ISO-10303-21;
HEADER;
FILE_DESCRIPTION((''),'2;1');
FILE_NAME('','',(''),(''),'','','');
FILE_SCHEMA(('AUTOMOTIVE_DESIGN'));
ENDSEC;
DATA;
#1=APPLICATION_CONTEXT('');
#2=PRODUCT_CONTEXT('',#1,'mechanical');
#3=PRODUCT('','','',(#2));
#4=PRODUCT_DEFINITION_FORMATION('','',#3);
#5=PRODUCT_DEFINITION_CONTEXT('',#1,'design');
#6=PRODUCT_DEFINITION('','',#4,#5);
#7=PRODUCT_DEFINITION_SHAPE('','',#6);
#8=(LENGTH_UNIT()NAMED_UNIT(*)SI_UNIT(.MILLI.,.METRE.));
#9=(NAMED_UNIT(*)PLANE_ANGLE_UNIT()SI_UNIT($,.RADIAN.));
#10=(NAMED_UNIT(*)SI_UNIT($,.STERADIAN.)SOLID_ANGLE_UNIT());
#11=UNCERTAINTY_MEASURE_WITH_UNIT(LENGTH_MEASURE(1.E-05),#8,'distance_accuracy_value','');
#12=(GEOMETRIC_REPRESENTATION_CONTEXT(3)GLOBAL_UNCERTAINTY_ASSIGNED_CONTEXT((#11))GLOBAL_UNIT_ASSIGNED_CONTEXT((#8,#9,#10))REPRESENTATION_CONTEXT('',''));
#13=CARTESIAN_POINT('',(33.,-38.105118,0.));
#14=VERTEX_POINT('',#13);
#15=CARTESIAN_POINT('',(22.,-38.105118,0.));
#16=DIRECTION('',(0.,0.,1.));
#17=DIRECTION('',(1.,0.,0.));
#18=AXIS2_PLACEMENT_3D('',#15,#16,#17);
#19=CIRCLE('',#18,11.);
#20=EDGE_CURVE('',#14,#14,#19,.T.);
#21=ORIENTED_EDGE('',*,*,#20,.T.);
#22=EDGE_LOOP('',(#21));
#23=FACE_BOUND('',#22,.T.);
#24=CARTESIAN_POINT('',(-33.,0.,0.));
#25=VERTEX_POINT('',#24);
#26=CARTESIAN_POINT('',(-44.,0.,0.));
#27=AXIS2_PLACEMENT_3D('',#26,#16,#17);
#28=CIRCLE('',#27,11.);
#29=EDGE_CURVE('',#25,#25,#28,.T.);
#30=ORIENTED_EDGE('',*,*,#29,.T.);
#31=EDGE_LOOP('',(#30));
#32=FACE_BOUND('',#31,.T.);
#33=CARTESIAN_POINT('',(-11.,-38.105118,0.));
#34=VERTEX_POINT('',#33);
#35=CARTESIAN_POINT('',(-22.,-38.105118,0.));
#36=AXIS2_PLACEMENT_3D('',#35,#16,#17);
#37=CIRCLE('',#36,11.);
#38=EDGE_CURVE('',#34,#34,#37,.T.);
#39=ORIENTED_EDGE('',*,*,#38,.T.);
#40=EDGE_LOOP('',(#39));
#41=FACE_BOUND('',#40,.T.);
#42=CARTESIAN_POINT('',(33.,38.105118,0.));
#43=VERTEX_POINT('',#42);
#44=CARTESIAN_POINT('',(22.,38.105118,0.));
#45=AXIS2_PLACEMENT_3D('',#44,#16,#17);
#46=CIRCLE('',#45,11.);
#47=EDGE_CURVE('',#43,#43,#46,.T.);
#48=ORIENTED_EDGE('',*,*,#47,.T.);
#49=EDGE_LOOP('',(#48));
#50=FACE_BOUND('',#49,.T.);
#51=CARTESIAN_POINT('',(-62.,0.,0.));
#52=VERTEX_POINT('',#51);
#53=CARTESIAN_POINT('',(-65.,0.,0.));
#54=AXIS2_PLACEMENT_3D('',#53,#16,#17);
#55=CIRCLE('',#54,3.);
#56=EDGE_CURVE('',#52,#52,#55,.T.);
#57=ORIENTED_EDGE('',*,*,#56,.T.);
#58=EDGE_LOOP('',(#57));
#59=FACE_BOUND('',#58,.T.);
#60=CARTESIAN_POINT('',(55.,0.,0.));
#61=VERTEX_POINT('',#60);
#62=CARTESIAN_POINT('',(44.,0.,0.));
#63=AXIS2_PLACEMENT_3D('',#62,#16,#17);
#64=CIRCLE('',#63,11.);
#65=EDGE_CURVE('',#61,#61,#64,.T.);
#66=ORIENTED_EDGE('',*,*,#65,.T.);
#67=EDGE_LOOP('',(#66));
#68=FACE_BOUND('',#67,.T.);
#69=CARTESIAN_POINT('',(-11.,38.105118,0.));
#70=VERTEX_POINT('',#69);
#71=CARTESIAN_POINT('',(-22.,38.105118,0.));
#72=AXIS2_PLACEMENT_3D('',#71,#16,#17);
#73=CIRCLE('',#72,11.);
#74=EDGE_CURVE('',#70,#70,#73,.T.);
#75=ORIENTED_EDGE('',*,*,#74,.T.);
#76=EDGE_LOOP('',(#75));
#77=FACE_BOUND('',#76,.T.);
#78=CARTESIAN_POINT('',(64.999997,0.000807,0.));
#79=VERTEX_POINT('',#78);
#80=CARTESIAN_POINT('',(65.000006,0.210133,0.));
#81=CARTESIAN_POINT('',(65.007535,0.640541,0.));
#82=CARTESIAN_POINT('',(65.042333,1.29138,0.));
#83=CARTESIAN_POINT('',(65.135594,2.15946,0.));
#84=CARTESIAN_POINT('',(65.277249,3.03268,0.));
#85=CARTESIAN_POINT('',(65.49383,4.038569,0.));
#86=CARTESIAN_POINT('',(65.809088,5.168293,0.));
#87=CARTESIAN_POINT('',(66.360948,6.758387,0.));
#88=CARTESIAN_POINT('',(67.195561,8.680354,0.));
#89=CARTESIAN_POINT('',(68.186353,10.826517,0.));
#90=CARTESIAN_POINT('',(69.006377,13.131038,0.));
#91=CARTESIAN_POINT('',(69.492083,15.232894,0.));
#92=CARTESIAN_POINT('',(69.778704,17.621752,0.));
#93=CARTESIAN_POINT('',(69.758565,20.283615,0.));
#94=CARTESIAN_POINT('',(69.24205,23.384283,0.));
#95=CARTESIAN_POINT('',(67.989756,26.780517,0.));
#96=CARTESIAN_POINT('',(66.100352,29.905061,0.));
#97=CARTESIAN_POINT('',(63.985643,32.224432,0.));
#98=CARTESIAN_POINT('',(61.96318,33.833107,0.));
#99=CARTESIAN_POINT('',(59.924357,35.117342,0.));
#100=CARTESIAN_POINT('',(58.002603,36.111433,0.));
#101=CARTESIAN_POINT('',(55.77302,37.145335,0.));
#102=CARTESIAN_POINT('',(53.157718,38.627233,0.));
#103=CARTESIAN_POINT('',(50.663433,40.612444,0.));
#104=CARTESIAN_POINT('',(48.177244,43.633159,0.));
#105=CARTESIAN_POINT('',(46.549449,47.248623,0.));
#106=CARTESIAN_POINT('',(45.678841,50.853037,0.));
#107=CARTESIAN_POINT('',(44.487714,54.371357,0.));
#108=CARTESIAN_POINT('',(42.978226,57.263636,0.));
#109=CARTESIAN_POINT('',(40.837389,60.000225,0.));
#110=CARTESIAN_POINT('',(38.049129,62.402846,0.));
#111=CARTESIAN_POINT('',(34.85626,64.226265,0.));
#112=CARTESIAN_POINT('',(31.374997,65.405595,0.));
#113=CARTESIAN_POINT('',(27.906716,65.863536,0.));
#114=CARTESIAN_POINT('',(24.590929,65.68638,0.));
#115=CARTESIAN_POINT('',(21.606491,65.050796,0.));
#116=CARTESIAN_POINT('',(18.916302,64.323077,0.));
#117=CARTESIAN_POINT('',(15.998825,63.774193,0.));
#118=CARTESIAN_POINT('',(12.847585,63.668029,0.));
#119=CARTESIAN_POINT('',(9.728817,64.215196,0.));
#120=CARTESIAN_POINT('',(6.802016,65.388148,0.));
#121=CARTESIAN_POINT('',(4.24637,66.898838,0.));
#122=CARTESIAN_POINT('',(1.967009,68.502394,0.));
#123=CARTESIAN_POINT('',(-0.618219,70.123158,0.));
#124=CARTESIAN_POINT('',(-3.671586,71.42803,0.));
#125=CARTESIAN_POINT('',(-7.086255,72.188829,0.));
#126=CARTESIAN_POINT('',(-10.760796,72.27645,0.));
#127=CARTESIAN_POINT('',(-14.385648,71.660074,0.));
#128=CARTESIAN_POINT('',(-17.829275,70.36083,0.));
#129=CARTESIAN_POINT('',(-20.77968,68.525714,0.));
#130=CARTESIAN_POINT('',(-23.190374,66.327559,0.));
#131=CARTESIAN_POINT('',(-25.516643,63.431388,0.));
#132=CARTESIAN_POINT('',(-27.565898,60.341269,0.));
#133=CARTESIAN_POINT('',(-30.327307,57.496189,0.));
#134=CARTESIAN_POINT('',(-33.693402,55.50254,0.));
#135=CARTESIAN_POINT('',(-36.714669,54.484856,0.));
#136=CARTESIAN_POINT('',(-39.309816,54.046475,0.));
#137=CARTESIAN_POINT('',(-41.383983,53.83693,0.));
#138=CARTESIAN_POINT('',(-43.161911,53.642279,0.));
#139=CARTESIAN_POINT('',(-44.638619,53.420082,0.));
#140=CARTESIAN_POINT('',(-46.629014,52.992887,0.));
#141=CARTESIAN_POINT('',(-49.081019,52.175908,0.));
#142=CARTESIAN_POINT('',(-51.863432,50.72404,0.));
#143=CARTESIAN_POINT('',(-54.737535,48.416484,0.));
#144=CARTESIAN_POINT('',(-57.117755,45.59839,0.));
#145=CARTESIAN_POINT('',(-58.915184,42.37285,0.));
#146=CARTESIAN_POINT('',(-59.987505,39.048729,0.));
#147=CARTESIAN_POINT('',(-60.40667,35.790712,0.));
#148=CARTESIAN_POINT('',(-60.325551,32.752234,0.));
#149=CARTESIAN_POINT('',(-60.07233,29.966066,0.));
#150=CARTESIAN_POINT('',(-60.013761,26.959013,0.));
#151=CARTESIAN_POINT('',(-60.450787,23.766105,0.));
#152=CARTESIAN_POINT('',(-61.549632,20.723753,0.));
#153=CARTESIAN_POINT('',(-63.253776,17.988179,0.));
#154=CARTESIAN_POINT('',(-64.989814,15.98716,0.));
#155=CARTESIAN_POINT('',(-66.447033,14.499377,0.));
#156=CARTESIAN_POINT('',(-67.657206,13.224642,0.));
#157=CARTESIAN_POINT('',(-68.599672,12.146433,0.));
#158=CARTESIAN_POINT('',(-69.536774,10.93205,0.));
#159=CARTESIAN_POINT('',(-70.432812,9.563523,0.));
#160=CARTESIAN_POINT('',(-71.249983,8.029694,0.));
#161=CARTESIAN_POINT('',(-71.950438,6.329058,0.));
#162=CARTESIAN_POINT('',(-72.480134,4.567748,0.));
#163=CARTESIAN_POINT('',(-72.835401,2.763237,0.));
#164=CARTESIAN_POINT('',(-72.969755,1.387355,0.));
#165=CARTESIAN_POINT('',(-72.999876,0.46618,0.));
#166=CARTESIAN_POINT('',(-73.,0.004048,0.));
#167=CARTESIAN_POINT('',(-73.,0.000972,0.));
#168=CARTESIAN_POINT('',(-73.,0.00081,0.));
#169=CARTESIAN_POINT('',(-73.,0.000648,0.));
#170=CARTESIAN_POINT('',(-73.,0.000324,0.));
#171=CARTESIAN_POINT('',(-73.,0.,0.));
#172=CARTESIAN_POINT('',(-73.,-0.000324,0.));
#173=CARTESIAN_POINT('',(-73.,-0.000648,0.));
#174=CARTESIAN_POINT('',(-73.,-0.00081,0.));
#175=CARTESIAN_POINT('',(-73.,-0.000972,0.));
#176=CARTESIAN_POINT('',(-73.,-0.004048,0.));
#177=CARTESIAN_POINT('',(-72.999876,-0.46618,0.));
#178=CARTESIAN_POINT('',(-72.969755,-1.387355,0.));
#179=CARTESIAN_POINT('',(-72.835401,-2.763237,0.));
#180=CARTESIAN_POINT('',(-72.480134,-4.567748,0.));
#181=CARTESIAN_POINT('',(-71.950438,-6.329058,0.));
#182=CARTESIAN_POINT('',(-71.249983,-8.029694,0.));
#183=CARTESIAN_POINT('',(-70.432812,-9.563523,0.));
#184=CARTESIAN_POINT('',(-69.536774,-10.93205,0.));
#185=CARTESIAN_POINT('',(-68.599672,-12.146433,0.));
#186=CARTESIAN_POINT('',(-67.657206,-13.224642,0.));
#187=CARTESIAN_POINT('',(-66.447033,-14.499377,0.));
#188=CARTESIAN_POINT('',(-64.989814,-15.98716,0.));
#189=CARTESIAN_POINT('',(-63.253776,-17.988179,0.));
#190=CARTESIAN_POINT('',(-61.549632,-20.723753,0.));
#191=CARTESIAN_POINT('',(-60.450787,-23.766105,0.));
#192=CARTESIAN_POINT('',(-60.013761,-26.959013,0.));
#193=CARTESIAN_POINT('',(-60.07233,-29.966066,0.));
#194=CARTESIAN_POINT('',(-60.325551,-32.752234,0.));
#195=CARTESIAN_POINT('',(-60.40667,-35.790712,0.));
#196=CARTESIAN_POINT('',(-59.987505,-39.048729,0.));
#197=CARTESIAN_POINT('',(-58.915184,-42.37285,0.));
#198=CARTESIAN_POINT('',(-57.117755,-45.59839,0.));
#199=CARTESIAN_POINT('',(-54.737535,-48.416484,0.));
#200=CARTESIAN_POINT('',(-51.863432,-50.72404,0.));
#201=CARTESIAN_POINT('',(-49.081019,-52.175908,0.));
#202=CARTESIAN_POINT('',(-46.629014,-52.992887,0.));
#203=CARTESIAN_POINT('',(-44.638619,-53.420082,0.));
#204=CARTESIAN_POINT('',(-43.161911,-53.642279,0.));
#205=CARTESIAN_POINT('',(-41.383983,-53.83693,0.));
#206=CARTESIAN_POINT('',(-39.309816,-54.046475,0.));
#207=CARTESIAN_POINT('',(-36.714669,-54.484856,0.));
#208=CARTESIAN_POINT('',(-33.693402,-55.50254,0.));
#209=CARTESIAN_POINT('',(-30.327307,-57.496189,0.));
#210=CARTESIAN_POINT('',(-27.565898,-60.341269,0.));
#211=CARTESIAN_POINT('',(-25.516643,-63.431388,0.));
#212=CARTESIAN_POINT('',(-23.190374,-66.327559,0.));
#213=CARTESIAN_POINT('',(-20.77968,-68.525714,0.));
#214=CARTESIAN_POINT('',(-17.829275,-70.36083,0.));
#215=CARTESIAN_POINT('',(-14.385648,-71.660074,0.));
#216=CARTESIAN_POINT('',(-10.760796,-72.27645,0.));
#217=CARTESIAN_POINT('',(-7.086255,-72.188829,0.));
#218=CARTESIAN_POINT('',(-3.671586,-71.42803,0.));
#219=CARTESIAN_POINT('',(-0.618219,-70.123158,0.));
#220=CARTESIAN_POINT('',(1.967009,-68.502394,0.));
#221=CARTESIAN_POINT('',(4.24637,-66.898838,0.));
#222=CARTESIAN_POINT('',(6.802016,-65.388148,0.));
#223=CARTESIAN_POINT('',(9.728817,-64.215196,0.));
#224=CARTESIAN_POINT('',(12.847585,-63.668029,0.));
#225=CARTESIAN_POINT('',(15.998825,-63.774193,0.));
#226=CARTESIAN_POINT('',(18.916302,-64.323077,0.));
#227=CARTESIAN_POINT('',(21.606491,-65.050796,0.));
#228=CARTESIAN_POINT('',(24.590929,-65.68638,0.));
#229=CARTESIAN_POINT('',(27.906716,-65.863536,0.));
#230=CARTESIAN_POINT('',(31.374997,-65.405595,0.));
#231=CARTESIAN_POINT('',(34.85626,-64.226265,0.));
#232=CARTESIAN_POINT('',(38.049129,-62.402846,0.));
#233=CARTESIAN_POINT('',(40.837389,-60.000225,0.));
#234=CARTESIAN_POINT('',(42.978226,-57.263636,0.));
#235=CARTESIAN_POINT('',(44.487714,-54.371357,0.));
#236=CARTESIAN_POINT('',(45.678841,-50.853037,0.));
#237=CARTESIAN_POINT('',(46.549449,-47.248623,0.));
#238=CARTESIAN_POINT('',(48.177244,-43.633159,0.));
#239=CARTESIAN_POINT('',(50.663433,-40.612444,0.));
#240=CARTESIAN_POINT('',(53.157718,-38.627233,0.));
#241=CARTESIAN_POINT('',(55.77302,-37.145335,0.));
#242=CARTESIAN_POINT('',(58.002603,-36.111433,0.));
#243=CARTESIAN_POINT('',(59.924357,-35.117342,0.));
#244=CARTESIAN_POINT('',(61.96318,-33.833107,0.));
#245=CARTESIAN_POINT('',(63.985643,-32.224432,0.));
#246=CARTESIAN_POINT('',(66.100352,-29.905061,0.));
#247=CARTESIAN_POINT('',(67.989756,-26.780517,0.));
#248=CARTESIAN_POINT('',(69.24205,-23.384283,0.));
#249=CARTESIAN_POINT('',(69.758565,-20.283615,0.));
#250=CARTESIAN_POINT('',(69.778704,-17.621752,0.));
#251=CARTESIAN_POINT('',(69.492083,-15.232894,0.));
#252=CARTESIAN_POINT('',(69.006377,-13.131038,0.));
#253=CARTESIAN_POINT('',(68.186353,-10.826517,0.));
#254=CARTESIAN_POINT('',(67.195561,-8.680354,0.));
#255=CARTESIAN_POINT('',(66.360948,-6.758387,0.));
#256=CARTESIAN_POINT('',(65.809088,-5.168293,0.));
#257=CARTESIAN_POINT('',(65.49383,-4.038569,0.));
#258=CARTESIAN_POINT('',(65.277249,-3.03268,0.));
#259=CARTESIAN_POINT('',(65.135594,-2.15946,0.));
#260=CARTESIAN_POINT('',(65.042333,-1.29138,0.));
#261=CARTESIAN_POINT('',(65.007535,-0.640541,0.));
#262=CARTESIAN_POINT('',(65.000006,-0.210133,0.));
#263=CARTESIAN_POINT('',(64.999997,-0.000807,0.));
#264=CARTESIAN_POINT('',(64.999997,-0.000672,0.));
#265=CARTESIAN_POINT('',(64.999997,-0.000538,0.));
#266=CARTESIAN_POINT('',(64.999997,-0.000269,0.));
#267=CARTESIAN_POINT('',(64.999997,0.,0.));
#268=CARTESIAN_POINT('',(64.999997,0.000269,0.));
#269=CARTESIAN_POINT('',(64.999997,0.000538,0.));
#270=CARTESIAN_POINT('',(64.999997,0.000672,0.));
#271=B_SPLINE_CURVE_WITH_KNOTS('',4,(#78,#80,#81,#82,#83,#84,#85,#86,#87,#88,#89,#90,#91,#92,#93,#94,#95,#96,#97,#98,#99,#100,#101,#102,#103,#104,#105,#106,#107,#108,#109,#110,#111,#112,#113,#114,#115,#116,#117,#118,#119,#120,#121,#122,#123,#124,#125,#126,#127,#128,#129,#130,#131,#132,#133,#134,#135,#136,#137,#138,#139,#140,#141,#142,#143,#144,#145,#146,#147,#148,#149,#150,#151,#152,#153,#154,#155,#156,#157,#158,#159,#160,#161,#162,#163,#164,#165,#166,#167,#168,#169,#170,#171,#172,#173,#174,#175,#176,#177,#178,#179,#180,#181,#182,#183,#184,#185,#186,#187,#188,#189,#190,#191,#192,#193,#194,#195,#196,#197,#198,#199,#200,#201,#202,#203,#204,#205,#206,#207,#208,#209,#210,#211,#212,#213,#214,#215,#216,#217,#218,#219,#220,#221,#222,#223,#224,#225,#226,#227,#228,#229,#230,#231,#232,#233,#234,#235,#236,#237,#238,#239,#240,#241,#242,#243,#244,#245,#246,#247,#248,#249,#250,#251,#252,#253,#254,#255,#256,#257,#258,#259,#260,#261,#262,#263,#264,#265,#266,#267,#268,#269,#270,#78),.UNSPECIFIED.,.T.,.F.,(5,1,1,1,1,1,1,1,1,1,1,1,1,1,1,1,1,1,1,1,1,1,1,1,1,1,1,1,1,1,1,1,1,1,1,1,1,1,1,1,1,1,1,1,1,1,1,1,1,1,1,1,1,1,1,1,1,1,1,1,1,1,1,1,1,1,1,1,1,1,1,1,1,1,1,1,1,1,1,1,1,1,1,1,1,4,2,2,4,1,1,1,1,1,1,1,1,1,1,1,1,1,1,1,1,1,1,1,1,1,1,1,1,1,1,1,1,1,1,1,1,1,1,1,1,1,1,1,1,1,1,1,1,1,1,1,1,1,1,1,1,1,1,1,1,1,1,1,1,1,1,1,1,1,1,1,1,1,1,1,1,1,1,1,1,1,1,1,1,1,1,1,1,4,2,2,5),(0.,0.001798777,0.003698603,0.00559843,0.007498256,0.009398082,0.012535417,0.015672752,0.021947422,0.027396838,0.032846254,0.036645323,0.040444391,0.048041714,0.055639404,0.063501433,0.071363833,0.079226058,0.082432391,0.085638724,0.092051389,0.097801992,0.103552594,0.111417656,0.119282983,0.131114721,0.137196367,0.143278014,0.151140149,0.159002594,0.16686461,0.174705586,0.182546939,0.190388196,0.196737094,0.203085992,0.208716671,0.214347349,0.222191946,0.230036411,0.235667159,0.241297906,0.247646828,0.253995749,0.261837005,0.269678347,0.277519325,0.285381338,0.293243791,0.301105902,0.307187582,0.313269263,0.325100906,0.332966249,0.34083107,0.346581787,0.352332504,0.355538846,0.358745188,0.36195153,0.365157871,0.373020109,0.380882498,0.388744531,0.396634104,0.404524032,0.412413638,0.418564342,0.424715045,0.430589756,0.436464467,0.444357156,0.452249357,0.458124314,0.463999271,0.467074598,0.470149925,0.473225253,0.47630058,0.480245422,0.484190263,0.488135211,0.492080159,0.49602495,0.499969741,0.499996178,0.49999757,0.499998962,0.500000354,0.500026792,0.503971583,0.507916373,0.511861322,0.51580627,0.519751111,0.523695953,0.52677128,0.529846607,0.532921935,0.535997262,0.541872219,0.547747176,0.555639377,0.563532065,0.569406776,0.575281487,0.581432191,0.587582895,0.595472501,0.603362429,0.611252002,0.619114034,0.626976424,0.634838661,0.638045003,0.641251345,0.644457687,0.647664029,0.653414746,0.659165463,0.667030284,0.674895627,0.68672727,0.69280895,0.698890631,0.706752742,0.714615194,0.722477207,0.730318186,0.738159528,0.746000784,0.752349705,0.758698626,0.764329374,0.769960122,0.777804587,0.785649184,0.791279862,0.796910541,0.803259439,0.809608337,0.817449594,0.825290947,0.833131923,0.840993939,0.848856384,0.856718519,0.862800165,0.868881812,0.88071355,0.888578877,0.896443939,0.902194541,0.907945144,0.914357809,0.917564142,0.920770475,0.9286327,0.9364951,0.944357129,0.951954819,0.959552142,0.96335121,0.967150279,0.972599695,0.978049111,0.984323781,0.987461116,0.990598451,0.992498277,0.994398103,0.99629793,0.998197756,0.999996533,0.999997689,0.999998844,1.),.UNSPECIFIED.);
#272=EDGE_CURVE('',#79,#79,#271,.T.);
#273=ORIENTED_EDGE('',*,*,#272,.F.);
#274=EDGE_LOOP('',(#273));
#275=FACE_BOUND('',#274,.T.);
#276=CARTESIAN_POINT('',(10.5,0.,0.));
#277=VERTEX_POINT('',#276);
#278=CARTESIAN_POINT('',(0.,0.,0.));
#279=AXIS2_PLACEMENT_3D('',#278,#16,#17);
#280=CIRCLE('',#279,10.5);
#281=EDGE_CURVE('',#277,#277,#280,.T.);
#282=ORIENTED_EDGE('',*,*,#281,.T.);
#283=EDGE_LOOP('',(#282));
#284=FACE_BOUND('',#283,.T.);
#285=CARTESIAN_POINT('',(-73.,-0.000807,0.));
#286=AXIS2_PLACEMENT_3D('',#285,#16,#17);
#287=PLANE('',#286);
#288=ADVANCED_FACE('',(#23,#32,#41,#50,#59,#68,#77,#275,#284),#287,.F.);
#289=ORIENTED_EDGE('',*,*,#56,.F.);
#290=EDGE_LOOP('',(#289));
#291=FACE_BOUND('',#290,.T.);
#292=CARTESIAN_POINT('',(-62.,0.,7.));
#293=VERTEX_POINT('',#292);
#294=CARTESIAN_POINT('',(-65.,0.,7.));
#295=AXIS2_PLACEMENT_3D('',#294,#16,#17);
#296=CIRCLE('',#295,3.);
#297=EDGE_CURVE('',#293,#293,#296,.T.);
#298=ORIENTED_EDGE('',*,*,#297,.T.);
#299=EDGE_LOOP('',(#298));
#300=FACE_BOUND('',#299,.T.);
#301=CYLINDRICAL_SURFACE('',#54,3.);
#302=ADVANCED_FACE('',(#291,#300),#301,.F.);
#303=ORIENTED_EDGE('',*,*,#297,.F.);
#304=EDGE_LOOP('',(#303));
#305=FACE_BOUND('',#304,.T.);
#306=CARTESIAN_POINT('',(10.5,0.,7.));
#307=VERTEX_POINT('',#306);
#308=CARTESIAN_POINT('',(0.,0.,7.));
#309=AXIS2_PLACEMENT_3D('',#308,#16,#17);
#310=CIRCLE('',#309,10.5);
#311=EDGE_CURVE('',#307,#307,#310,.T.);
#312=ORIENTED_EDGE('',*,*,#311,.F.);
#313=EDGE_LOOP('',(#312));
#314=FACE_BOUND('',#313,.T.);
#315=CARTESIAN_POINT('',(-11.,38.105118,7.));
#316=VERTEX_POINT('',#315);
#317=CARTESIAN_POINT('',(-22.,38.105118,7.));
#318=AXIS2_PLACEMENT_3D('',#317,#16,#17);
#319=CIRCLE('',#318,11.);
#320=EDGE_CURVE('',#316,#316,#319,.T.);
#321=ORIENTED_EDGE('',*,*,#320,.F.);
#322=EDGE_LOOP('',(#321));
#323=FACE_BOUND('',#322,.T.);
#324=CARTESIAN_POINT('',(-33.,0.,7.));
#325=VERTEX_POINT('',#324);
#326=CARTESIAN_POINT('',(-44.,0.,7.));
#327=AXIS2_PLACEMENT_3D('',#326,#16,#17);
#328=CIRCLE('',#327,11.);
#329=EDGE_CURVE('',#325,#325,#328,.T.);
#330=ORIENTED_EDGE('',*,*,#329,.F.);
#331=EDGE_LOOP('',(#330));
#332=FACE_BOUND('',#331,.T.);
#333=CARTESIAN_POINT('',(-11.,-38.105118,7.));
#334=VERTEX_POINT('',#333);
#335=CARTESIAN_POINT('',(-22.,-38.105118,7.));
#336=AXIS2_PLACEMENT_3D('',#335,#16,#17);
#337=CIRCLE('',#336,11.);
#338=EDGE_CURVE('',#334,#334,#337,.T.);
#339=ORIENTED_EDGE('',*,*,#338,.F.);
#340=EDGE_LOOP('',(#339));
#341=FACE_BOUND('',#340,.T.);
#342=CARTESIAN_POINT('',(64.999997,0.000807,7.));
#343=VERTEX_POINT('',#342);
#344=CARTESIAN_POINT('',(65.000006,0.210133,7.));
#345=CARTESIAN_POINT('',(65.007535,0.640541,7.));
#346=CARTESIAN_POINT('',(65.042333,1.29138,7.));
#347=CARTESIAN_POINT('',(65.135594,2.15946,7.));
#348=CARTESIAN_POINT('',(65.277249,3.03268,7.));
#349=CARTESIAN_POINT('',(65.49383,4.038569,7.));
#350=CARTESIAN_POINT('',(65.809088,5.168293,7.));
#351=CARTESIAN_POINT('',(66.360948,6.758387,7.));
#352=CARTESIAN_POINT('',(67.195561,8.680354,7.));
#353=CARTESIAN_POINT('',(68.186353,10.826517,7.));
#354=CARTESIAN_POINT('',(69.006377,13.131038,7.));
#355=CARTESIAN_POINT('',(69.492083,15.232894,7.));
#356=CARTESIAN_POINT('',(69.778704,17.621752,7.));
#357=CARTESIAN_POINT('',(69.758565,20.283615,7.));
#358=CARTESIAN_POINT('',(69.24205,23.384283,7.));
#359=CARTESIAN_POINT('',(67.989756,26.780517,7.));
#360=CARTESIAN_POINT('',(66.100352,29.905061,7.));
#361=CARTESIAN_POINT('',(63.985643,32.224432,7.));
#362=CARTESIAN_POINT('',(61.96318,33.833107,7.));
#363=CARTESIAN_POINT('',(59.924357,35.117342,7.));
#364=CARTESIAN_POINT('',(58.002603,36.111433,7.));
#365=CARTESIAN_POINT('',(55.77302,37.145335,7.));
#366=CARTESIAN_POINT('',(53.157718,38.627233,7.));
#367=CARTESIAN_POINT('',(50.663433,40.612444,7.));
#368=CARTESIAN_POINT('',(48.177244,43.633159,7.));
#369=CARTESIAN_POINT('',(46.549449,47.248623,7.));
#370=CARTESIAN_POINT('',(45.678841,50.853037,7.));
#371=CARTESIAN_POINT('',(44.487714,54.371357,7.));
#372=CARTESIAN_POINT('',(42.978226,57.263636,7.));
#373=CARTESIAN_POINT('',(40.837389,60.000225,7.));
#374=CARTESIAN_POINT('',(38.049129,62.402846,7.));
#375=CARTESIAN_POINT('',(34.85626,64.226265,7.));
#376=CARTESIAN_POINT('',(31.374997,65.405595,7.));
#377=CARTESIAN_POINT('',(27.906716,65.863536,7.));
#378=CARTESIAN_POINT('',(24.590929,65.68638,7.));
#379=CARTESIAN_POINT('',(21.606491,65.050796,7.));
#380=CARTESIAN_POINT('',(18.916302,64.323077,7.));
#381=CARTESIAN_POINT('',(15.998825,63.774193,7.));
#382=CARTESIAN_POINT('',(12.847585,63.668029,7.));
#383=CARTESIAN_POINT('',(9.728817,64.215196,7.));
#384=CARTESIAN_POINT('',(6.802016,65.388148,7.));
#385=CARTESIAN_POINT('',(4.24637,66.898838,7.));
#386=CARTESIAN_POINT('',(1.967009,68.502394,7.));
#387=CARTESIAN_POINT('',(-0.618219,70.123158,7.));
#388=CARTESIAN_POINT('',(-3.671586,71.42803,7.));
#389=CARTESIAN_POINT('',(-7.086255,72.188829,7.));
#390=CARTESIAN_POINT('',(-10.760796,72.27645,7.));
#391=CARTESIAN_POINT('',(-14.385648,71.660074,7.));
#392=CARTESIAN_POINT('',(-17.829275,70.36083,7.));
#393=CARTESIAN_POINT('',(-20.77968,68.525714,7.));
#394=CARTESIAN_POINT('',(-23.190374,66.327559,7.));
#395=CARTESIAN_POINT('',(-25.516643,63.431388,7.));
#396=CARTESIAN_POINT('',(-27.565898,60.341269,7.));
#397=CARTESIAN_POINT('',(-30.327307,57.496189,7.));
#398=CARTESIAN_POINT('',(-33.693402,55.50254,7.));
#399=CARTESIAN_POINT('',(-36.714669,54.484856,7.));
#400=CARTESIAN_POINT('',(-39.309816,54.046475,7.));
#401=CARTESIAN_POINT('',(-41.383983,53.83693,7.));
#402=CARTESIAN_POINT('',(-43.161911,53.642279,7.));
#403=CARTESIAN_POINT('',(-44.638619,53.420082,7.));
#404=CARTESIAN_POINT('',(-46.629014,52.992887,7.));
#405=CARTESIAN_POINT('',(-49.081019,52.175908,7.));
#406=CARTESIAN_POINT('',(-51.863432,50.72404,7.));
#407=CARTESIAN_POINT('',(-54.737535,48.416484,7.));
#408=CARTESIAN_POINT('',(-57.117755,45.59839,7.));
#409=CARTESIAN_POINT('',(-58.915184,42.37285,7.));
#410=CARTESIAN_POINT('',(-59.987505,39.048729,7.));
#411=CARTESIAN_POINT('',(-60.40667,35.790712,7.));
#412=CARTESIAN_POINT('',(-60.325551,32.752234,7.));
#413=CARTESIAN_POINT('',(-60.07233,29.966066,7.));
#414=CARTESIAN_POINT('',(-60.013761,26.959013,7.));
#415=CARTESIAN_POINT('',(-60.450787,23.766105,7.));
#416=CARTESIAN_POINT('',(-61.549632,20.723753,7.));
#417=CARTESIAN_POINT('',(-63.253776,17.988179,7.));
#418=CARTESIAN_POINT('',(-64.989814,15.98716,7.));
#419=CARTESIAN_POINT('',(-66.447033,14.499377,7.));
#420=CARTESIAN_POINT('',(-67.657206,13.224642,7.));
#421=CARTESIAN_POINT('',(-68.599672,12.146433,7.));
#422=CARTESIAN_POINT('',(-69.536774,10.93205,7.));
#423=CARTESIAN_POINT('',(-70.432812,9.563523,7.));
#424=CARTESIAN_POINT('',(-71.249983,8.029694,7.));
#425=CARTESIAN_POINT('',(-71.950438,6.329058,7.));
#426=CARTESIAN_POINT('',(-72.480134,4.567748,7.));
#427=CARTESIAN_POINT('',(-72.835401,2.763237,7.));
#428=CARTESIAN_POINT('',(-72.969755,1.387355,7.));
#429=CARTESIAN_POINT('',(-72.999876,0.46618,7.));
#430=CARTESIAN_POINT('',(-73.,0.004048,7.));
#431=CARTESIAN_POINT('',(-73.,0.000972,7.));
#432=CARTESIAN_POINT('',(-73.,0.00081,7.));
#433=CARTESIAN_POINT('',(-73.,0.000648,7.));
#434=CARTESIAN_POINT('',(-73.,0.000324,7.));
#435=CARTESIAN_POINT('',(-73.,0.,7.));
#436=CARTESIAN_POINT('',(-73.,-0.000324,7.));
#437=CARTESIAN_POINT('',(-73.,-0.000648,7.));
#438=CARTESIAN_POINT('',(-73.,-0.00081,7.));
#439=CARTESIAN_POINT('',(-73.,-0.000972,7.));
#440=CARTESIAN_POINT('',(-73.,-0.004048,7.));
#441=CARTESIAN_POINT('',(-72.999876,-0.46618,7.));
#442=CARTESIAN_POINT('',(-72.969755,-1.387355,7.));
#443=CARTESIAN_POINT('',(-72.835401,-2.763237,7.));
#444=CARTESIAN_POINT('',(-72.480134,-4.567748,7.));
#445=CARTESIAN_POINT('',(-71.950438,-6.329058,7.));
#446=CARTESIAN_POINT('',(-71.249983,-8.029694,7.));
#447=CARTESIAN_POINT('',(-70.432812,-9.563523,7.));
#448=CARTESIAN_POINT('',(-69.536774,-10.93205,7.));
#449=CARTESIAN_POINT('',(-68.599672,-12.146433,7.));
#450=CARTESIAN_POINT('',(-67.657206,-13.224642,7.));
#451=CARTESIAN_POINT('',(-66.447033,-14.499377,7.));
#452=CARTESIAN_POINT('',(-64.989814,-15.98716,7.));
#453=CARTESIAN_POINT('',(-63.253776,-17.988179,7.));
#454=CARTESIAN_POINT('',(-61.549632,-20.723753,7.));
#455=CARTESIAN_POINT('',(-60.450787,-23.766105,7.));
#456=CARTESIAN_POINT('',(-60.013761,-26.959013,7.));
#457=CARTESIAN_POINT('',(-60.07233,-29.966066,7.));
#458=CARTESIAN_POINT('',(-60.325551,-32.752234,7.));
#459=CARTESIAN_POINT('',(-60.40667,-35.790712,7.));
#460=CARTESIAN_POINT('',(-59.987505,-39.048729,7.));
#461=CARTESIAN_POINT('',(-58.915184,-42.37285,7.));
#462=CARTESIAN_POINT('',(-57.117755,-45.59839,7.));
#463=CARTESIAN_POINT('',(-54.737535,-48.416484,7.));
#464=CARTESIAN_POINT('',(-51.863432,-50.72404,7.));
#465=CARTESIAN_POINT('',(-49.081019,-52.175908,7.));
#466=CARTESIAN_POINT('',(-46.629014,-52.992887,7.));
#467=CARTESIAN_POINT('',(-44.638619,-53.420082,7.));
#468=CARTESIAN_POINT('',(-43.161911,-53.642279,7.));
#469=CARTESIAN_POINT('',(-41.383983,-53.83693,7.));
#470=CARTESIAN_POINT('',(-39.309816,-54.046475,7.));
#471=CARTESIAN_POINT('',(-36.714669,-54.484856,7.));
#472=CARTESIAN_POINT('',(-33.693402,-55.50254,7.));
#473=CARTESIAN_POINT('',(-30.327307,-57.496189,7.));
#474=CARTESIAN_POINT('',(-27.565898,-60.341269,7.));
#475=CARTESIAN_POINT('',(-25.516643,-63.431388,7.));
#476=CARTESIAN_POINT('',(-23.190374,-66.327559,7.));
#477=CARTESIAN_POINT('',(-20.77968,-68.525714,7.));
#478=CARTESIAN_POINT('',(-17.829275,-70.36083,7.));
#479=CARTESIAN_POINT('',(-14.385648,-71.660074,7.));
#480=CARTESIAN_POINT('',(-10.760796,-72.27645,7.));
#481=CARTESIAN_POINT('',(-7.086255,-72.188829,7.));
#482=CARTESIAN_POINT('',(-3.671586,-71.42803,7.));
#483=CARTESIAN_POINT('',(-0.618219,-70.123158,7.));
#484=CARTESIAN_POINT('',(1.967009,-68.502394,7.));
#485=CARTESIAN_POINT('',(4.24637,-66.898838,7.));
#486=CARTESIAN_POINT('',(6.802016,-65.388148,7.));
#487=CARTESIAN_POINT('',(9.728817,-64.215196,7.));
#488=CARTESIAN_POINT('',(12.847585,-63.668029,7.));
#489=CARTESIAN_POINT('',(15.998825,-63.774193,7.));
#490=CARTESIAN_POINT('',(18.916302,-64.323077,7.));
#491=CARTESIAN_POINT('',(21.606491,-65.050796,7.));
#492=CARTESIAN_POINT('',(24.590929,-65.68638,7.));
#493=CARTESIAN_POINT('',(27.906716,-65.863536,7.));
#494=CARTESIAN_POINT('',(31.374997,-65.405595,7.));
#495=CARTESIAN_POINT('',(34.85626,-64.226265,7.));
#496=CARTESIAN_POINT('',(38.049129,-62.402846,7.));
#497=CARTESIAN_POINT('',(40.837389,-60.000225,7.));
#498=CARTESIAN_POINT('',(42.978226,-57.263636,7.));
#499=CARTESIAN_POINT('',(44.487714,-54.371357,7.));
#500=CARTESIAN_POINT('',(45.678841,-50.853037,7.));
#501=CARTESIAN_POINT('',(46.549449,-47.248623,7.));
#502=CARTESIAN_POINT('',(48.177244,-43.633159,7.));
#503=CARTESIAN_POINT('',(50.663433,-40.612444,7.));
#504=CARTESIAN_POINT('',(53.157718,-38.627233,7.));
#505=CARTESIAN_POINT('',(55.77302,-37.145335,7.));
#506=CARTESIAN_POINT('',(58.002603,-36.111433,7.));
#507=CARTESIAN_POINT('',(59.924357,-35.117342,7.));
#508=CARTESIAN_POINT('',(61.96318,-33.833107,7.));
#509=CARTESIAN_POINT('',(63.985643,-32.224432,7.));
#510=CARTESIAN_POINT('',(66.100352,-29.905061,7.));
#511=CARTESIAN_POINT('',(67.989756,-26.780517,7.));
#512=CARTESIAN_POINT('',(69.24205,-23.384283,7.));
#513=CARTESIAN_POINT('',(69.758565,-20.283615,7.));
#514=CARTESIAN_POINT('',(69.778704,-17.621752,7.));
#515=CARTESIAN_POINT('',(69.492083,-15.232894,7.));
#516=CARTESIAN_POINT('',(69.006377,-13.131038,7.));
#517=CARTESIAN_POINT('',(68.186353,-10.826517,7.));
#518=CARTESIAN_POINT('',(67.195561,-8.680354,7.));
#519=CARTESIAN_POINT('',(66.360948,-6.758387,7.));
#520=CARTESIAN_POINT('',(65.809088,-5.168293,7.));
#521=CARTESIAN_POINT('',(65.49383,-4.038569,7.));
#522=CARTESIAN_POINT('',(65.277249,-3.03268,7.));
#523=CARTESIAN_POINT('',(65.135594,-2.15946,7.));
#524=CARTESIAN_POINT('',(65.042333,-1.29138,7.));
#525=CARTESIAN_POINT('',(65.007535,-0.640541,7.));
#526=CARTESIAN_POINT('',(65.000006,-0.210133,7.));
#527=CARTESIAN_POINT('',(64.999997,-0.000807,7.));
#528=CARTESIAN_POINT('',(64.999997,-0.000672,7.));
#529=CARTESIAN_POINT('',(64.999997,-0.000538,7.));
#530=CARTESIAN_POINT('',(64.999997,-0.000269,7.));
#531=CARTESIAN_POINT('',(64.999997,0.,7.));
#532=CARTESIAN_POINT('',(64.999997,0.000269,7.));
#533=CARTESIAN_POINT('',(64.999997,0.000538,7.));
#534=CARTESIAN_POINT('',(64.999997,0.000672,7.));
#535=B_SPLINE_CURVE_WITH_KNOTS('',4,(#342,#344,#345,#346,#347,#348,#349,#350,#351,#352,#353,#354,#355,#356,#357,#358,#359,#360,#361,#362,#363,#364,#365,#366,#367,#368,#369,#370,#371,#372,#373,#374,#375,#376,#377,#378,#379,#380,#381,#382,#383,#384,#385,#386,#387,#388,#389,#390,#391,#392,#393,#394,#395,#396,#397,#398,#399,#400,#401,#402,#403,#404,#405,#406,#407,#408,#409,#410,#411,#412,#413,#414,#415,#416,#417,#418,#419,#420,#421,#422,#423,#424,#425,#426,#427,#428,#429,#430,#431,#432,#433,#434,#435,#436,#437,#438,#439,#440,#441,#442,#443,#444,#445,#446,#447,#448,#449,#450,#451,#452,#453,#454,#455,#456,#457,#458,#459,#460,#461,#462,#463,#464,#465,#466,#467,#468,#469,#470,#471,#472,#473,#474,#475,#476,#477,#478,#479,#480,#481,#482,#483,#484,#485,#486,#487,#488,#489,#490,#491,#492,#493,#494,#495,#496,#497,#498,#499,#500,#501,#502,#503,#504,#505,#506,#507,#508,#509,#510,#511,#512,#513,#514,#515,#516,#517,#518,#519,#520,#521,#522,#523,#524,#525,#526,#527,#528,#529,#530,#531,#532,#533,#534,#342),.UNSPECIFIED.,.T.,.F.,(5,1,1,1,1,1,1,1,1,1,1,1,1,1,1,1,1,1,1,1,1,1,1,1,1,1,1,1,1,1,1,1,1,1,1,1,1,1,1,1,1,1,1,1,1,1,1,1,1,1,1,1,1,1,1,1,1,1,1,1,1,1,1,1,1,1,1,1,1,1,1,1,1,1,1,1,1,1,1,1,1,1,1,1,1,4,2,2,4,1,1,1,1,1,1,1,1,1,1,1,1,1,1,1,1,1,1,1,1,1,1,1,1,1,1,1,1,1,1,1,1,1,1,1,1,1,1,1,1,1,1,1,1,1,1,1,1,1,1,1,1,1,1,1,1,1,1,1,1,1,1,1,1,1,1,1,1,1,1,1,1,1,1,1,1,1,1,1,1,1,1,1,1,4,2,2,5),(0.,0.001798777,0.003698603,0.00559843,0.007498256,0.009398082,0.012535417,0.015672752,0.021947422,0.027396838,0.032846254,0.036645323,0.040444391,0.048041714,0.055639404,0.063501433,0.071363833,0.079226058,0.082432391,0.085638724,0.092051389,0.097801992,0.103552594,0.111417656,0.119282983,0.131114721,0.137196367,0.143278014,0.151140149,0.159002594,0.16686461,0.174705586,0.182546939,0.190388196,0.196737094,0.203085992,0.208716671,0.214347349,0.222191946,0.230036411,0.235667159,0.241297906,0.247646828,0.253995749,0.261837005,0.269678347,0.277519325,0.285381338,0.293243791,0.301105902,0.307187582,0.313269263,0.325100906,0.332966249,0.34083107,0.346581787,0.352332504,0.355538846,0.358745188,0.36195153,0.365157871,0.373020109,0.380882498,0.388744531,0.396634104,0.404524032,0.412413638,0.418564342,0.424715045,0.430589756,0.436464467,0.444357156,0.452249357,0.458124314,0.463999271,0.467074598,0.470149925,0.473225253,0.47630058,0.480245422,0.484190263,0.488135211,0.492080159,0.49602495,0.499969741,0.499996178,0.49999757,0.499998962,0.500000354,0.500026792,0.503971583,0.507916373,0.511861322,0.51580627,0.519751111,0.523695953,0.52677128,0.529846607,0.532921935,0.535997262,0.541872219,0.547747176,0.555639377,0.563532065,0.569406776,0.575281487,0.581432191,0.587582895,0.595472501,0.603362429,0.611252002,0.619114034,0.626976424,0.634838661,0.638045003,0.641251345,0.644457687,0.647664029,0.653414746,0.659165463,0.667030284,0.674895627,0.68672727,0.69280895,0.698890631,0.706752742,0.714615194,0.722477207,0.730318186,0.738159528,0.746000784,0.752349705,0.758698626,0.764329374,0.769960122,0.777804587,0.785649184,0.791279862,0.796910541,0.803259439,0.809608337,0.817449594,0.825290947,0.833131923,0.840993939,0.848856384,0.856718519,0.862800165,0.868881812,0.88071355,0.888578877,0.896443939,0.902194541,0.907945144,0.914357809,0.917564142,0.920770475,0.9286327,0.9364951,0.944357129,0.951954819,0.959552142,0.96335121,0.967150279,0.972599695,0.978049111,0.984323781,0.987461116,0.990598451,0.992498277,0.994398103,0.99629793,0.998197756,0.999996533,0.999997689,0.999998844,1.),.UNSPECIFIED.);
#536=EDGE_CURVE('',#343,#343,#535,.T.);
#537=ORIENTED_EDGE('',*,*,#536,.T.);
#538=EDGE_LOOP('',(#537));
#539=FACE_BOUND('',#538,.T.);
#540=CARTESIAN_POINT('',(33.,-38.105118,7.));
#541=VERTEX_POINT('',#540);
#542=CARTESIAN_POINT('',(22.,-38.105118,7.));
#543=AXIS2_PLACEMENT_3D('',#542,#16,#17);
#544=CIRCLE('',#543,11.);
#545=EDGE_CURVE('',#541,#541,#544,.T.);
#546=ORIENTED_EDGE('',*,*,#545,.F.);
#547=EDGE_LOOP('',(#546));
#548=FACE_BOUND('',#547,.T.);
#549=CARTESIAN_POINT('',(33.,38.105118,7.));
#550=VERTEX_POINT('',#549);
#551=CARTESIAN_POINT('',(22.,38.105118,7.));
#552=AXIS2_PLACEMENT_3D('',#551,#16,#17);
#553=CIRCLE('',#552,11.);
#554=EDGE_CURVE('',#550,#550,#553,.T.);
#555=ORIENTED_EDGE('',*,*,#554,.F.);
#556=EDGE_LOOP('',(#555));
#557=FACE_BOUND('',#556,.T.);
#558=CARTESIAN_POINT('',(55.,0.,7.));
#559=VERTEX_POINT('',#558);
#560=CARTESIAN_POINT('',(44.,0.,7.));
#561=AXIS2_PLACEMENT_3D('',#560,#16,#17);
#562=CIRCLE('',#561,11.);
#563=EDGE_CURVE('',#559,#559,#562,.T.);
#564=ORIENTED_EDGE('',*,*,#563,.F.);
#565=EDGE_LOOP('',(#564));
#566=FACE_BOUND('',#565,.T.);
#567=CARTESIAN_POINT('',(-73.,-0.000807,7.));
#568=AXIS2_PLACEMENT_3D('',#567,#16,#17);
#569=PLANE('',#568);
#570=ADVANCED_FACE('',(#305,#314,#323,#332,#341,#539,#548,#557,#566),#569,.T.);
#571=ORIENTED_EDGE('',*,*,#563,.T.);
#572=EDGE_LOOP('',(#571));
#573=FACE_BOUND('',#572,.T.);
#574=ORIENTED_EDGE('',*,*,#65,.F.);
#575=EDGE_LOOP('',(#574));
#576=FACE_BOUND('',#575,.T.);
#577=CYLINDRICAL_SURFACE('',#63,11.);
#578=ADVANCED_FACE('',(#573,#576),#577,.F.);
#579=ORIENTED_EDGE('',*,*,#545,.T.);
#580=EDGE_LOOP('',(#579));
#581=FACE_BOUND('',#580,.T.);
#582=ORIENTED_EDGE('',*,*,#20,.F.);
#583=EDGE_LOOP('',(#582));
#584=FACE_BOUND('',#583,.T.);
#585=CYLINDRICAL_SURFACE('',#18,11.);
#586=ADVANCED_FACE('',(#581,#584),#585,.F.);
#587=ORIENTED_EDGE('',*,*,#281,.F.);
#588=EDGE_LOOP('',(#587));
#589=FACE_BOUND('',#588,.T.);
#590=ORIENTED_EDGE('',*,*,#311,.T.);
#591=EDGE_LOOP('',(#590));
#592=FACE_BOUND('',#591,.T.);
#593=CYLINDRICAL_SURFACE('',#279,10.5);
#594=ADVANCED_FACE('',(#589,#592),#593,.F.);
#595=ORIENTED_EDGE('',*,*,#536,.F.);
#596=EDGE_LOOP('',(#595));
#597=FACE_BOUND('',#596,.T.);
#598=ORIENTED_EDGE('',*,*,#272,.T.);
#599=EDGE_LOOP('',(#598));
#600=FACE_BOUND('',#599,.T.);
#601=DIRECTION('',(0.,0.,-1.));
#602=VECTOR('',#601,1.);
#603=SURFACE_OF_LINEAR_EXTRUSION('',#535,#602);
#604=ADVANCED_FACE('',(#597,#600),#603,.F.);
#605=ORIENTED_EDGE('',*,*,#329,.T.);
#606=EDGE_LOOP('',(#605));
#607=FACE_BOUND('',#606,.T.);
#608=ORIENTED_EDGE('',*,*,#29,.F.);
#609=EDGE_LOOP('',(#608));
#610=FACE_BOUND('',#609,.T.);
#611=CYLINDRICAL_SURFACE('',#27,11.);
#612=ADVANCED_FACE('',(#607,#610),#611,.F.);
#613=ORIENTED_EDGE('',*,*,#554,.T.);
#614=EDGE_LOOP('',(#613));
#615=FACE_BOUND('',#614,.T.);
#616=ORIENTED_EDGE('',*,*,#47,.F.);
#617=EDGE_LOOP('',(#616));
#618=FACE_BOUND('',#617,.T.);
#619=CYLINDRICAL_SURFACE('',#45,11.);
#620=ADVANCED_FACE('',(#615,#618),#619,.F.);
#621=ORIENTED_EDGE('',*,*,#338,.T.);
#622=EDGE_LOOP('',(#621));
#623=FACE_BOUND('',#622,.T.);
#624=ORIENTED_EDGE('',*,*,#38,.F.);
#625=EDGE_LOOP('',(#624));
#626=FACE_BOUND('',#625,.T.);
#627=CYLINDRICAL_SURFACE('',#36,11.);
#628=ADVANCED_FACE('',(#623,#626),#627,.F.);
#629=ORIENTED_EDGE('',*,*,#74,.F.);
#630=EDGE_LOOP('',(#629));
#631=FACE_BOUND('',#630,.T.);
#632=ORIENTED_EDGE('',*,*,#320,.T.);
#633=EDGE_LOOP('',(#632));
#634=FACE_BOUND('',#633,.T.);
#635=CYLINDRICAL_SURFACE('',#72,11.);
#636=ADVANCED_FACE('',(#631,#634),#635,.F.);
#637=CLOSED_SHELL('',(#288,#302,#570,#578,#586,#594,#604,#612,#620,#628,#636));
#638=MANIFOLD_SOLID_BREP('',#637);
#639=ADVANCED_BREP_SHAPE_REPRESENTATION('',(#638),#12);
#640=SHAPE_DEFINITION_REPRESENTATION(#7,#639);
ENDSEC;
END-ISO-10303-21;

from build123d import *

# Parameters (mm, degrees)
BOSS_EXTRUDE1_DEPTH = 7
SKETCH2_R           = 11
CUT_EXTRUDE1_DEPTH  = 103.897295537
SKETCH3_R           = 10.5
CUT_EXTRUDE2_DEPTH  = 103.897295537
SKETCH4_R           = 3
CUT_EXTRUDE3_DEPTH  = 103.897295537


with BuildPart() as part:
    # Sketch1 → Boss-Extrude1 (new body)
    with BuildSketch(Plane.XY):
        with BuildLine():
            add(Edge.make_bspline(
                [(64.999997419, 0.000806947), (65.00000609, 0.21013312), (65.007534948, 0.64054093), (65.042332664, 1.291380489), (65.135594495, 2.159460023), (65.277248851, 3.032680008), (65.493830203, 4.038569318), (65.809087942, 5.168293211), (66.3609477, 6.758386753), (67.195560637, 8.680353986), (68.186353458, 10.826517495), (69.006376801, 13.131037551), (69.49208346, 15.232893556), (69.778704141, 17.621751772), (69.758565384, 20.283615304), (69.242050418, 23.384282514), (67.989755767, 26.780516545), (66.100351811, 29.905060607), (63.985642903, 32.22443192), (61.963179868, 33.833106887), (59.924357249, 35.117342135), (58.002602637, 36.111433425), (55.773019988, 37.145335072), (53.157717558, 38.627233325), (50.663432719, 40.61244418), (48.177244341, 43.633158774), (46.549449378, 47.248622642), (45.678840997, 50.853036944), (44.487714221, 54.371357413), (42.978225844, 57.263635788), (40.837389165, 60.000224897), (38.049129423, 62.402846227), (34.85625957, 64.226264819), (31.374996628, 65.405595202), (27.906716495, 65.863536097), (24.590928635, 65.686380175), (21.60649148, 65.05079625), (18.916301522, 64.32307683), (15.998824641, 63.774192759), (12.847584732, 63.668028743), (9.728816556, 64.215195529), (6.802016032, 65.388148141), (4.246370247, 66.898838322), (1.967008792, 68.502393598), (-0.618218868, 70.123158088), (-3.671586225, 71.428030238), (-7.086254723, 72.188828978), (-10.76079625, 72.276450148), (-14.385647807, 71.660073729), (-17.829274613, 70.360829533), (-20.779679678, 68.525713643), (-23.190373511, 66.327558714), (-25.516643206, 63.431388327), (-27.565898104, 60.341268628), (-30.327307182, 57.496189029), (-33.693402094, 55.502540068), (-36.714668658, 54.4848558), (-39.309815704, 54.046474509), (-41.383983168, 53.836930402), (-43.161911331, 53.642278824), (-44.638619491, 53.420081839), (-46.62901432, 52.992886762), (-49.081018776, 52.175907503), (-51.863431912, 50.724039888), (-54.737535189, 48.416484059), (-57.117755121, 45.598389652), (-58.915184236, 42.372849822), (-59.987505481, 39.048729025), (-60.406669899, 35.790711752), (-60.325551079, 32.752234211), (-60.072329686, 29.966065889), (-60.013760517, 26.959013226), (-60.450787322, 23.76610463), (-61.549631637, 20.723753194), (-63.253776488, 17.988179386), (-64.989814093, 15.987160092), (-66.447032939, 14.499376804), (-67.657205891, 13.224642472), (-68.599672039, 12.146432903), (-69.536773989, 10.932049653), (-70.432812405, 9.563522537), (-71.249982649, 8.029694321), (-71.950438385, 6.329058177), (-72.480134133, 4.567748418), (-72.835401264, 2.763237252), (-72.969755125, 1.387355273), (-72.999876295, 0.466180194), (-72.999999894, 0.004048412), (-73.000000052, 0.000971906), (-73.000000061, 0.000809922), (-73.000000067, 0.000647937), (-73.000000077, 0.000323969), (-73.000000078, 0), (-73.000000077, -0.000323969), (-73.000000067, -0.000647937), (-73.000000061, -0.000809922), (-73.000000052, -0.000971906), (-72.999999894, -0.004048412), (-72.999876295, -0.466180194), (-72.969755125, -1.387355273), (-72.835401264, -2.763237252), (-72.480134133, -4.567748418), (-71.950438385, -6.329058177), (-71.249982649, -8.029694321), (-70.432812405, -9.563522537), (-69.536773989, -10.932049653), (-68.599672039, -12.146432903), (-67.657205891, -13.224642472), (-66.447032939, -14.499376804), (-64.989814093, -15.987160092), (-63.253776488, -17.988179386), (-61.549631637, -20.723753194), (-60.450787322, -23.76610463), (-60.013760517, -26.959013226), (-60.072329686, -29.966065889), (-60.325551079, -32.752234211), (-60.406669899, -35.790711752), (-59.987505481, -39.048729025), (-58.915184237, -42.372849822), (-57.117755121, -45.598389652), (-54.737535189, -48.416484059), (-51.863431912, -50.724039888), (-49.081018776, -52.175907503), (-46.62901432, -52.992886762), (-44.638619491, -53.420081839), (-43.161911332, -53.642278824), (-41.383983168, -53.836930402), (-39.309815704, -54.046474509), (-36.714668658, -54.4848558), (-33.693402094, -55.502540068), (-30.327307182, -57.496189029), (-27.565898104, -60.341268628), (-25.516643206, -63.431388327), (-23.190373511, -66.327558714), (-20.779679678, -68.525713643), (-17.829274613, -70.360829533), (-14.385647807, -71.660073729), (-10.76079625, -72.276450148), (-7.086254723, -72.188828978), (-3.671586225, -71.428030238), (-0.618218868, -70.123158088), (1.967008792, -68.502393598), (4.246370247, -66.898838322), (6.802016032, -65.388148141), (9.728816556, -64.215195529), (12.847584732, -63.668028743), (15.998824641, -63.774192759), (18.916301522, -64.32307683), (21.60649148, -65.05079625), (24.590928635, -65.686380175), (27.906716495, -65.863536097), (31.374996628, -65.405595202), (34.85625957, -64.226264819), (38.049129423, -62.402846227), (40.837389165, -60.000224897), (42.978225844, -57.263635788), (44.487714221, -54.371357413), (45.678840997, -50.853036944), (46.549449378, -47.248622642), (48.177244341, -43.633158774), (50.663432719, -40.61244418), (53.157717558, -38.627233325), (55.773019988, -37.145335072), (58.002602637, -36.111433425), (59.924357249, -35.117342135), (61.963179868, -33.833106887), (63.985642903, -32.22443192), (66.100351811, -29.905060607), (67.989755767, -26.780516545), (69.242050418, -23.384282514), (69.758565384, -20.283615304), (69.778704141, -17.621751772), (69.49208346, -15.232893556), (69.006376801, -13.131037551), (68.186353458, -10.826517495), (67.195560637, -8.680353986), (66.3609477, -6.758386753), (65.809087942, -5.168293211), (65.493830203, -4.038569318), (65.277248851, -3.032680008), (65.135594495, -2.159460023), (65.042332664, -1.291380489), (65.007534948, -0.64054093), (65.00000609, -0.21013312), (64.999997419, -0.000806947), (64.999997413, -0.000672456), (64.999997409, -0.000537965), (64.999997404, -0.000268982), (64.999997403, 0), (64.999997404, 0.000268982), (64.999997409, 0.000537965), (64.999997413, 0.000672456), (64.999997419, 0.000806947)],
                knots=[0, 0, 0, 0, 0, 0.001798777, 0.003698603, 0.00559843, 0.007498256, 0.009398082, 0.012535417, 0.015672752, 0.021947422, 0.027396838, 0.032846254, 0.036645323, 0.040444391, 0.048041714, 0.055639404, 0.063501433, 0.071363833, 0.079226058, 0.082432391, 0.085638724, 0.092051389, 0.097801992, 0.103552594, 0.111417656, 0.119282983, 0.131114721, 0.137196367, 0.143278014, 0.151140149, 0.159002594, 0.16686461, 0.174705586, 0.182546939, 0.190388196, 0.196737094, 0.203085992, 0.208716671, 0.214347349, 0.222191946, 0.230036411, 0.235667159, 0.241297906, 0.247646828, 0.253995749, 0.261837005, 0.269678347, 0.277519325, 0.285381338, 0.293243791, 0.301105902, 0.307187582, 0.313269263, 0.325100906, 0.332966249, 0.34083107, 0.346581787, 0.352332504, 0.355538846, 0.358745188, 0.36195153, 0.365157871, 0.373020109, 0.380882498, 0.388744531, 0.396634104, 0.404524032, 0.412413638, 0.418564342, 0.424715045, 0.430589756, 0.436464467, 0.444357156, 0.452249357, 0.458124314, 0.463999271, 0.467074598, 0.470149925, 0.473225253, 0.47630058, 0.480245422, 0.484190263, 0.488135211, 0.492080159, 0.49602495, 0.499969741, 0.499996178, 0.499996178, 0.499996178, 0.499996178, 0.49999757, 0.49999757, 0.499998962, 0.499998962, 0.500000354, 0.500000354, 0.500000354, 0.500000354, 0.500026792, 0.503971583, 0.507916373, 0.511861322, 0.51580627, 0.519751111, 0.523695953, 0.52677128, 0.529846607, 0.532921935, 0.535997262, 0.541872219, 0.547747176, 0.555639377, 0.563532065, 0.569406776, 0.575281487, 0.581432191, 0.587582895, 0.595472501, 0.603362429, 0.611252002, 0.619114034, 0.626976424, 0.634838661, 0.638045003, 0.641251345, 0.644457687, 0.647664029, 0.653414746, 0.659165463, 0.667030284, 0.674895627, 0.68672727, 0.69280895, 0.698890631, 0.706752742, 0.714615194, 0.722477207, 0.730318186, 0.738159528, 0.746000784, 0.752349705, 0.758698626, 0.764329374, 0.769960122, 0.777804587, 0.785649184, 0.791279862, 0.796910541, 0.803259439, 0.809608337, 0.817449594, 0.825290947, 0.833131923, 0.840993939, 0.848856384, 0.856718519, 0.862800165, 0.868881812, 0.88071355, 0.888578877, 0.896443939, 0.902194541, 0.907945144, 0.914357809, 0.917564142, 0.920770475, 0.9286327, 0.9364951, 0.944357129, 0.951954819, 0.959552142, 0.96335121, 0.967150279, 0.972599695, 0.978049111, 0.984323781, 0.987461116, 0.990598451, 0.992498277, 0.994398103, 0.99629793, 0.998197756, 0.999996533, 0.999996533, 0.999996533, 0.999996533, 0.999997689, 0.999997689, 0.999998844, 0.999998844, 1, 1, 1, 1, 1], degree=4))
        make_face()
    extrude(amount=BOSS_EXTRUDE1_DEPTH)

    # Sketch2 → Cut-Extrude1 (cut, through all)
    with BuildSketch(Plane.XY.offset(7)):
        with Locations((-44, 0)):
            Circle(SKETCH2_R)
        with Locations((-22, 38.105117767)):
            Circle(SKETCH2_R)
        with Locations((22, 38.105117767)):
            Circle(SKETCH2_R)
        with Locations((44, 0)):
            Circle(SKETCH2_R)
        with Locations((22, -38.105117767)):
            Circle(SKETCH2_R)
        with Locations((-22, -38.105117767)):
            Circle(SKETCH2_R)
    extrude(amount=-CUT_EXTRUDE1_DEPTH, mode=Mode.SUBTRACT)

    # Sketch3 → Cut-Extrude2 (cut, through all)
    with BuildSketch(Plane.XY.offset(7)):
        Circle(SKETCH3_R)
    extrude(amount=-CUT_EXTRUDE2_DEPTH, mode=Mode.SUBTRACT)

    # Sketch4 → Cut-Extrude3 (cut, through all)
    with BuildSketch(Plane.XY.offset(7)):
        with Locations((-65, 0)):
            Circle(SKETCH4_R)
    extrude(amount=-CUT_EXTRUDE3_DEPTH, mode=Mode.SUBTRACT)


solid = part.part
